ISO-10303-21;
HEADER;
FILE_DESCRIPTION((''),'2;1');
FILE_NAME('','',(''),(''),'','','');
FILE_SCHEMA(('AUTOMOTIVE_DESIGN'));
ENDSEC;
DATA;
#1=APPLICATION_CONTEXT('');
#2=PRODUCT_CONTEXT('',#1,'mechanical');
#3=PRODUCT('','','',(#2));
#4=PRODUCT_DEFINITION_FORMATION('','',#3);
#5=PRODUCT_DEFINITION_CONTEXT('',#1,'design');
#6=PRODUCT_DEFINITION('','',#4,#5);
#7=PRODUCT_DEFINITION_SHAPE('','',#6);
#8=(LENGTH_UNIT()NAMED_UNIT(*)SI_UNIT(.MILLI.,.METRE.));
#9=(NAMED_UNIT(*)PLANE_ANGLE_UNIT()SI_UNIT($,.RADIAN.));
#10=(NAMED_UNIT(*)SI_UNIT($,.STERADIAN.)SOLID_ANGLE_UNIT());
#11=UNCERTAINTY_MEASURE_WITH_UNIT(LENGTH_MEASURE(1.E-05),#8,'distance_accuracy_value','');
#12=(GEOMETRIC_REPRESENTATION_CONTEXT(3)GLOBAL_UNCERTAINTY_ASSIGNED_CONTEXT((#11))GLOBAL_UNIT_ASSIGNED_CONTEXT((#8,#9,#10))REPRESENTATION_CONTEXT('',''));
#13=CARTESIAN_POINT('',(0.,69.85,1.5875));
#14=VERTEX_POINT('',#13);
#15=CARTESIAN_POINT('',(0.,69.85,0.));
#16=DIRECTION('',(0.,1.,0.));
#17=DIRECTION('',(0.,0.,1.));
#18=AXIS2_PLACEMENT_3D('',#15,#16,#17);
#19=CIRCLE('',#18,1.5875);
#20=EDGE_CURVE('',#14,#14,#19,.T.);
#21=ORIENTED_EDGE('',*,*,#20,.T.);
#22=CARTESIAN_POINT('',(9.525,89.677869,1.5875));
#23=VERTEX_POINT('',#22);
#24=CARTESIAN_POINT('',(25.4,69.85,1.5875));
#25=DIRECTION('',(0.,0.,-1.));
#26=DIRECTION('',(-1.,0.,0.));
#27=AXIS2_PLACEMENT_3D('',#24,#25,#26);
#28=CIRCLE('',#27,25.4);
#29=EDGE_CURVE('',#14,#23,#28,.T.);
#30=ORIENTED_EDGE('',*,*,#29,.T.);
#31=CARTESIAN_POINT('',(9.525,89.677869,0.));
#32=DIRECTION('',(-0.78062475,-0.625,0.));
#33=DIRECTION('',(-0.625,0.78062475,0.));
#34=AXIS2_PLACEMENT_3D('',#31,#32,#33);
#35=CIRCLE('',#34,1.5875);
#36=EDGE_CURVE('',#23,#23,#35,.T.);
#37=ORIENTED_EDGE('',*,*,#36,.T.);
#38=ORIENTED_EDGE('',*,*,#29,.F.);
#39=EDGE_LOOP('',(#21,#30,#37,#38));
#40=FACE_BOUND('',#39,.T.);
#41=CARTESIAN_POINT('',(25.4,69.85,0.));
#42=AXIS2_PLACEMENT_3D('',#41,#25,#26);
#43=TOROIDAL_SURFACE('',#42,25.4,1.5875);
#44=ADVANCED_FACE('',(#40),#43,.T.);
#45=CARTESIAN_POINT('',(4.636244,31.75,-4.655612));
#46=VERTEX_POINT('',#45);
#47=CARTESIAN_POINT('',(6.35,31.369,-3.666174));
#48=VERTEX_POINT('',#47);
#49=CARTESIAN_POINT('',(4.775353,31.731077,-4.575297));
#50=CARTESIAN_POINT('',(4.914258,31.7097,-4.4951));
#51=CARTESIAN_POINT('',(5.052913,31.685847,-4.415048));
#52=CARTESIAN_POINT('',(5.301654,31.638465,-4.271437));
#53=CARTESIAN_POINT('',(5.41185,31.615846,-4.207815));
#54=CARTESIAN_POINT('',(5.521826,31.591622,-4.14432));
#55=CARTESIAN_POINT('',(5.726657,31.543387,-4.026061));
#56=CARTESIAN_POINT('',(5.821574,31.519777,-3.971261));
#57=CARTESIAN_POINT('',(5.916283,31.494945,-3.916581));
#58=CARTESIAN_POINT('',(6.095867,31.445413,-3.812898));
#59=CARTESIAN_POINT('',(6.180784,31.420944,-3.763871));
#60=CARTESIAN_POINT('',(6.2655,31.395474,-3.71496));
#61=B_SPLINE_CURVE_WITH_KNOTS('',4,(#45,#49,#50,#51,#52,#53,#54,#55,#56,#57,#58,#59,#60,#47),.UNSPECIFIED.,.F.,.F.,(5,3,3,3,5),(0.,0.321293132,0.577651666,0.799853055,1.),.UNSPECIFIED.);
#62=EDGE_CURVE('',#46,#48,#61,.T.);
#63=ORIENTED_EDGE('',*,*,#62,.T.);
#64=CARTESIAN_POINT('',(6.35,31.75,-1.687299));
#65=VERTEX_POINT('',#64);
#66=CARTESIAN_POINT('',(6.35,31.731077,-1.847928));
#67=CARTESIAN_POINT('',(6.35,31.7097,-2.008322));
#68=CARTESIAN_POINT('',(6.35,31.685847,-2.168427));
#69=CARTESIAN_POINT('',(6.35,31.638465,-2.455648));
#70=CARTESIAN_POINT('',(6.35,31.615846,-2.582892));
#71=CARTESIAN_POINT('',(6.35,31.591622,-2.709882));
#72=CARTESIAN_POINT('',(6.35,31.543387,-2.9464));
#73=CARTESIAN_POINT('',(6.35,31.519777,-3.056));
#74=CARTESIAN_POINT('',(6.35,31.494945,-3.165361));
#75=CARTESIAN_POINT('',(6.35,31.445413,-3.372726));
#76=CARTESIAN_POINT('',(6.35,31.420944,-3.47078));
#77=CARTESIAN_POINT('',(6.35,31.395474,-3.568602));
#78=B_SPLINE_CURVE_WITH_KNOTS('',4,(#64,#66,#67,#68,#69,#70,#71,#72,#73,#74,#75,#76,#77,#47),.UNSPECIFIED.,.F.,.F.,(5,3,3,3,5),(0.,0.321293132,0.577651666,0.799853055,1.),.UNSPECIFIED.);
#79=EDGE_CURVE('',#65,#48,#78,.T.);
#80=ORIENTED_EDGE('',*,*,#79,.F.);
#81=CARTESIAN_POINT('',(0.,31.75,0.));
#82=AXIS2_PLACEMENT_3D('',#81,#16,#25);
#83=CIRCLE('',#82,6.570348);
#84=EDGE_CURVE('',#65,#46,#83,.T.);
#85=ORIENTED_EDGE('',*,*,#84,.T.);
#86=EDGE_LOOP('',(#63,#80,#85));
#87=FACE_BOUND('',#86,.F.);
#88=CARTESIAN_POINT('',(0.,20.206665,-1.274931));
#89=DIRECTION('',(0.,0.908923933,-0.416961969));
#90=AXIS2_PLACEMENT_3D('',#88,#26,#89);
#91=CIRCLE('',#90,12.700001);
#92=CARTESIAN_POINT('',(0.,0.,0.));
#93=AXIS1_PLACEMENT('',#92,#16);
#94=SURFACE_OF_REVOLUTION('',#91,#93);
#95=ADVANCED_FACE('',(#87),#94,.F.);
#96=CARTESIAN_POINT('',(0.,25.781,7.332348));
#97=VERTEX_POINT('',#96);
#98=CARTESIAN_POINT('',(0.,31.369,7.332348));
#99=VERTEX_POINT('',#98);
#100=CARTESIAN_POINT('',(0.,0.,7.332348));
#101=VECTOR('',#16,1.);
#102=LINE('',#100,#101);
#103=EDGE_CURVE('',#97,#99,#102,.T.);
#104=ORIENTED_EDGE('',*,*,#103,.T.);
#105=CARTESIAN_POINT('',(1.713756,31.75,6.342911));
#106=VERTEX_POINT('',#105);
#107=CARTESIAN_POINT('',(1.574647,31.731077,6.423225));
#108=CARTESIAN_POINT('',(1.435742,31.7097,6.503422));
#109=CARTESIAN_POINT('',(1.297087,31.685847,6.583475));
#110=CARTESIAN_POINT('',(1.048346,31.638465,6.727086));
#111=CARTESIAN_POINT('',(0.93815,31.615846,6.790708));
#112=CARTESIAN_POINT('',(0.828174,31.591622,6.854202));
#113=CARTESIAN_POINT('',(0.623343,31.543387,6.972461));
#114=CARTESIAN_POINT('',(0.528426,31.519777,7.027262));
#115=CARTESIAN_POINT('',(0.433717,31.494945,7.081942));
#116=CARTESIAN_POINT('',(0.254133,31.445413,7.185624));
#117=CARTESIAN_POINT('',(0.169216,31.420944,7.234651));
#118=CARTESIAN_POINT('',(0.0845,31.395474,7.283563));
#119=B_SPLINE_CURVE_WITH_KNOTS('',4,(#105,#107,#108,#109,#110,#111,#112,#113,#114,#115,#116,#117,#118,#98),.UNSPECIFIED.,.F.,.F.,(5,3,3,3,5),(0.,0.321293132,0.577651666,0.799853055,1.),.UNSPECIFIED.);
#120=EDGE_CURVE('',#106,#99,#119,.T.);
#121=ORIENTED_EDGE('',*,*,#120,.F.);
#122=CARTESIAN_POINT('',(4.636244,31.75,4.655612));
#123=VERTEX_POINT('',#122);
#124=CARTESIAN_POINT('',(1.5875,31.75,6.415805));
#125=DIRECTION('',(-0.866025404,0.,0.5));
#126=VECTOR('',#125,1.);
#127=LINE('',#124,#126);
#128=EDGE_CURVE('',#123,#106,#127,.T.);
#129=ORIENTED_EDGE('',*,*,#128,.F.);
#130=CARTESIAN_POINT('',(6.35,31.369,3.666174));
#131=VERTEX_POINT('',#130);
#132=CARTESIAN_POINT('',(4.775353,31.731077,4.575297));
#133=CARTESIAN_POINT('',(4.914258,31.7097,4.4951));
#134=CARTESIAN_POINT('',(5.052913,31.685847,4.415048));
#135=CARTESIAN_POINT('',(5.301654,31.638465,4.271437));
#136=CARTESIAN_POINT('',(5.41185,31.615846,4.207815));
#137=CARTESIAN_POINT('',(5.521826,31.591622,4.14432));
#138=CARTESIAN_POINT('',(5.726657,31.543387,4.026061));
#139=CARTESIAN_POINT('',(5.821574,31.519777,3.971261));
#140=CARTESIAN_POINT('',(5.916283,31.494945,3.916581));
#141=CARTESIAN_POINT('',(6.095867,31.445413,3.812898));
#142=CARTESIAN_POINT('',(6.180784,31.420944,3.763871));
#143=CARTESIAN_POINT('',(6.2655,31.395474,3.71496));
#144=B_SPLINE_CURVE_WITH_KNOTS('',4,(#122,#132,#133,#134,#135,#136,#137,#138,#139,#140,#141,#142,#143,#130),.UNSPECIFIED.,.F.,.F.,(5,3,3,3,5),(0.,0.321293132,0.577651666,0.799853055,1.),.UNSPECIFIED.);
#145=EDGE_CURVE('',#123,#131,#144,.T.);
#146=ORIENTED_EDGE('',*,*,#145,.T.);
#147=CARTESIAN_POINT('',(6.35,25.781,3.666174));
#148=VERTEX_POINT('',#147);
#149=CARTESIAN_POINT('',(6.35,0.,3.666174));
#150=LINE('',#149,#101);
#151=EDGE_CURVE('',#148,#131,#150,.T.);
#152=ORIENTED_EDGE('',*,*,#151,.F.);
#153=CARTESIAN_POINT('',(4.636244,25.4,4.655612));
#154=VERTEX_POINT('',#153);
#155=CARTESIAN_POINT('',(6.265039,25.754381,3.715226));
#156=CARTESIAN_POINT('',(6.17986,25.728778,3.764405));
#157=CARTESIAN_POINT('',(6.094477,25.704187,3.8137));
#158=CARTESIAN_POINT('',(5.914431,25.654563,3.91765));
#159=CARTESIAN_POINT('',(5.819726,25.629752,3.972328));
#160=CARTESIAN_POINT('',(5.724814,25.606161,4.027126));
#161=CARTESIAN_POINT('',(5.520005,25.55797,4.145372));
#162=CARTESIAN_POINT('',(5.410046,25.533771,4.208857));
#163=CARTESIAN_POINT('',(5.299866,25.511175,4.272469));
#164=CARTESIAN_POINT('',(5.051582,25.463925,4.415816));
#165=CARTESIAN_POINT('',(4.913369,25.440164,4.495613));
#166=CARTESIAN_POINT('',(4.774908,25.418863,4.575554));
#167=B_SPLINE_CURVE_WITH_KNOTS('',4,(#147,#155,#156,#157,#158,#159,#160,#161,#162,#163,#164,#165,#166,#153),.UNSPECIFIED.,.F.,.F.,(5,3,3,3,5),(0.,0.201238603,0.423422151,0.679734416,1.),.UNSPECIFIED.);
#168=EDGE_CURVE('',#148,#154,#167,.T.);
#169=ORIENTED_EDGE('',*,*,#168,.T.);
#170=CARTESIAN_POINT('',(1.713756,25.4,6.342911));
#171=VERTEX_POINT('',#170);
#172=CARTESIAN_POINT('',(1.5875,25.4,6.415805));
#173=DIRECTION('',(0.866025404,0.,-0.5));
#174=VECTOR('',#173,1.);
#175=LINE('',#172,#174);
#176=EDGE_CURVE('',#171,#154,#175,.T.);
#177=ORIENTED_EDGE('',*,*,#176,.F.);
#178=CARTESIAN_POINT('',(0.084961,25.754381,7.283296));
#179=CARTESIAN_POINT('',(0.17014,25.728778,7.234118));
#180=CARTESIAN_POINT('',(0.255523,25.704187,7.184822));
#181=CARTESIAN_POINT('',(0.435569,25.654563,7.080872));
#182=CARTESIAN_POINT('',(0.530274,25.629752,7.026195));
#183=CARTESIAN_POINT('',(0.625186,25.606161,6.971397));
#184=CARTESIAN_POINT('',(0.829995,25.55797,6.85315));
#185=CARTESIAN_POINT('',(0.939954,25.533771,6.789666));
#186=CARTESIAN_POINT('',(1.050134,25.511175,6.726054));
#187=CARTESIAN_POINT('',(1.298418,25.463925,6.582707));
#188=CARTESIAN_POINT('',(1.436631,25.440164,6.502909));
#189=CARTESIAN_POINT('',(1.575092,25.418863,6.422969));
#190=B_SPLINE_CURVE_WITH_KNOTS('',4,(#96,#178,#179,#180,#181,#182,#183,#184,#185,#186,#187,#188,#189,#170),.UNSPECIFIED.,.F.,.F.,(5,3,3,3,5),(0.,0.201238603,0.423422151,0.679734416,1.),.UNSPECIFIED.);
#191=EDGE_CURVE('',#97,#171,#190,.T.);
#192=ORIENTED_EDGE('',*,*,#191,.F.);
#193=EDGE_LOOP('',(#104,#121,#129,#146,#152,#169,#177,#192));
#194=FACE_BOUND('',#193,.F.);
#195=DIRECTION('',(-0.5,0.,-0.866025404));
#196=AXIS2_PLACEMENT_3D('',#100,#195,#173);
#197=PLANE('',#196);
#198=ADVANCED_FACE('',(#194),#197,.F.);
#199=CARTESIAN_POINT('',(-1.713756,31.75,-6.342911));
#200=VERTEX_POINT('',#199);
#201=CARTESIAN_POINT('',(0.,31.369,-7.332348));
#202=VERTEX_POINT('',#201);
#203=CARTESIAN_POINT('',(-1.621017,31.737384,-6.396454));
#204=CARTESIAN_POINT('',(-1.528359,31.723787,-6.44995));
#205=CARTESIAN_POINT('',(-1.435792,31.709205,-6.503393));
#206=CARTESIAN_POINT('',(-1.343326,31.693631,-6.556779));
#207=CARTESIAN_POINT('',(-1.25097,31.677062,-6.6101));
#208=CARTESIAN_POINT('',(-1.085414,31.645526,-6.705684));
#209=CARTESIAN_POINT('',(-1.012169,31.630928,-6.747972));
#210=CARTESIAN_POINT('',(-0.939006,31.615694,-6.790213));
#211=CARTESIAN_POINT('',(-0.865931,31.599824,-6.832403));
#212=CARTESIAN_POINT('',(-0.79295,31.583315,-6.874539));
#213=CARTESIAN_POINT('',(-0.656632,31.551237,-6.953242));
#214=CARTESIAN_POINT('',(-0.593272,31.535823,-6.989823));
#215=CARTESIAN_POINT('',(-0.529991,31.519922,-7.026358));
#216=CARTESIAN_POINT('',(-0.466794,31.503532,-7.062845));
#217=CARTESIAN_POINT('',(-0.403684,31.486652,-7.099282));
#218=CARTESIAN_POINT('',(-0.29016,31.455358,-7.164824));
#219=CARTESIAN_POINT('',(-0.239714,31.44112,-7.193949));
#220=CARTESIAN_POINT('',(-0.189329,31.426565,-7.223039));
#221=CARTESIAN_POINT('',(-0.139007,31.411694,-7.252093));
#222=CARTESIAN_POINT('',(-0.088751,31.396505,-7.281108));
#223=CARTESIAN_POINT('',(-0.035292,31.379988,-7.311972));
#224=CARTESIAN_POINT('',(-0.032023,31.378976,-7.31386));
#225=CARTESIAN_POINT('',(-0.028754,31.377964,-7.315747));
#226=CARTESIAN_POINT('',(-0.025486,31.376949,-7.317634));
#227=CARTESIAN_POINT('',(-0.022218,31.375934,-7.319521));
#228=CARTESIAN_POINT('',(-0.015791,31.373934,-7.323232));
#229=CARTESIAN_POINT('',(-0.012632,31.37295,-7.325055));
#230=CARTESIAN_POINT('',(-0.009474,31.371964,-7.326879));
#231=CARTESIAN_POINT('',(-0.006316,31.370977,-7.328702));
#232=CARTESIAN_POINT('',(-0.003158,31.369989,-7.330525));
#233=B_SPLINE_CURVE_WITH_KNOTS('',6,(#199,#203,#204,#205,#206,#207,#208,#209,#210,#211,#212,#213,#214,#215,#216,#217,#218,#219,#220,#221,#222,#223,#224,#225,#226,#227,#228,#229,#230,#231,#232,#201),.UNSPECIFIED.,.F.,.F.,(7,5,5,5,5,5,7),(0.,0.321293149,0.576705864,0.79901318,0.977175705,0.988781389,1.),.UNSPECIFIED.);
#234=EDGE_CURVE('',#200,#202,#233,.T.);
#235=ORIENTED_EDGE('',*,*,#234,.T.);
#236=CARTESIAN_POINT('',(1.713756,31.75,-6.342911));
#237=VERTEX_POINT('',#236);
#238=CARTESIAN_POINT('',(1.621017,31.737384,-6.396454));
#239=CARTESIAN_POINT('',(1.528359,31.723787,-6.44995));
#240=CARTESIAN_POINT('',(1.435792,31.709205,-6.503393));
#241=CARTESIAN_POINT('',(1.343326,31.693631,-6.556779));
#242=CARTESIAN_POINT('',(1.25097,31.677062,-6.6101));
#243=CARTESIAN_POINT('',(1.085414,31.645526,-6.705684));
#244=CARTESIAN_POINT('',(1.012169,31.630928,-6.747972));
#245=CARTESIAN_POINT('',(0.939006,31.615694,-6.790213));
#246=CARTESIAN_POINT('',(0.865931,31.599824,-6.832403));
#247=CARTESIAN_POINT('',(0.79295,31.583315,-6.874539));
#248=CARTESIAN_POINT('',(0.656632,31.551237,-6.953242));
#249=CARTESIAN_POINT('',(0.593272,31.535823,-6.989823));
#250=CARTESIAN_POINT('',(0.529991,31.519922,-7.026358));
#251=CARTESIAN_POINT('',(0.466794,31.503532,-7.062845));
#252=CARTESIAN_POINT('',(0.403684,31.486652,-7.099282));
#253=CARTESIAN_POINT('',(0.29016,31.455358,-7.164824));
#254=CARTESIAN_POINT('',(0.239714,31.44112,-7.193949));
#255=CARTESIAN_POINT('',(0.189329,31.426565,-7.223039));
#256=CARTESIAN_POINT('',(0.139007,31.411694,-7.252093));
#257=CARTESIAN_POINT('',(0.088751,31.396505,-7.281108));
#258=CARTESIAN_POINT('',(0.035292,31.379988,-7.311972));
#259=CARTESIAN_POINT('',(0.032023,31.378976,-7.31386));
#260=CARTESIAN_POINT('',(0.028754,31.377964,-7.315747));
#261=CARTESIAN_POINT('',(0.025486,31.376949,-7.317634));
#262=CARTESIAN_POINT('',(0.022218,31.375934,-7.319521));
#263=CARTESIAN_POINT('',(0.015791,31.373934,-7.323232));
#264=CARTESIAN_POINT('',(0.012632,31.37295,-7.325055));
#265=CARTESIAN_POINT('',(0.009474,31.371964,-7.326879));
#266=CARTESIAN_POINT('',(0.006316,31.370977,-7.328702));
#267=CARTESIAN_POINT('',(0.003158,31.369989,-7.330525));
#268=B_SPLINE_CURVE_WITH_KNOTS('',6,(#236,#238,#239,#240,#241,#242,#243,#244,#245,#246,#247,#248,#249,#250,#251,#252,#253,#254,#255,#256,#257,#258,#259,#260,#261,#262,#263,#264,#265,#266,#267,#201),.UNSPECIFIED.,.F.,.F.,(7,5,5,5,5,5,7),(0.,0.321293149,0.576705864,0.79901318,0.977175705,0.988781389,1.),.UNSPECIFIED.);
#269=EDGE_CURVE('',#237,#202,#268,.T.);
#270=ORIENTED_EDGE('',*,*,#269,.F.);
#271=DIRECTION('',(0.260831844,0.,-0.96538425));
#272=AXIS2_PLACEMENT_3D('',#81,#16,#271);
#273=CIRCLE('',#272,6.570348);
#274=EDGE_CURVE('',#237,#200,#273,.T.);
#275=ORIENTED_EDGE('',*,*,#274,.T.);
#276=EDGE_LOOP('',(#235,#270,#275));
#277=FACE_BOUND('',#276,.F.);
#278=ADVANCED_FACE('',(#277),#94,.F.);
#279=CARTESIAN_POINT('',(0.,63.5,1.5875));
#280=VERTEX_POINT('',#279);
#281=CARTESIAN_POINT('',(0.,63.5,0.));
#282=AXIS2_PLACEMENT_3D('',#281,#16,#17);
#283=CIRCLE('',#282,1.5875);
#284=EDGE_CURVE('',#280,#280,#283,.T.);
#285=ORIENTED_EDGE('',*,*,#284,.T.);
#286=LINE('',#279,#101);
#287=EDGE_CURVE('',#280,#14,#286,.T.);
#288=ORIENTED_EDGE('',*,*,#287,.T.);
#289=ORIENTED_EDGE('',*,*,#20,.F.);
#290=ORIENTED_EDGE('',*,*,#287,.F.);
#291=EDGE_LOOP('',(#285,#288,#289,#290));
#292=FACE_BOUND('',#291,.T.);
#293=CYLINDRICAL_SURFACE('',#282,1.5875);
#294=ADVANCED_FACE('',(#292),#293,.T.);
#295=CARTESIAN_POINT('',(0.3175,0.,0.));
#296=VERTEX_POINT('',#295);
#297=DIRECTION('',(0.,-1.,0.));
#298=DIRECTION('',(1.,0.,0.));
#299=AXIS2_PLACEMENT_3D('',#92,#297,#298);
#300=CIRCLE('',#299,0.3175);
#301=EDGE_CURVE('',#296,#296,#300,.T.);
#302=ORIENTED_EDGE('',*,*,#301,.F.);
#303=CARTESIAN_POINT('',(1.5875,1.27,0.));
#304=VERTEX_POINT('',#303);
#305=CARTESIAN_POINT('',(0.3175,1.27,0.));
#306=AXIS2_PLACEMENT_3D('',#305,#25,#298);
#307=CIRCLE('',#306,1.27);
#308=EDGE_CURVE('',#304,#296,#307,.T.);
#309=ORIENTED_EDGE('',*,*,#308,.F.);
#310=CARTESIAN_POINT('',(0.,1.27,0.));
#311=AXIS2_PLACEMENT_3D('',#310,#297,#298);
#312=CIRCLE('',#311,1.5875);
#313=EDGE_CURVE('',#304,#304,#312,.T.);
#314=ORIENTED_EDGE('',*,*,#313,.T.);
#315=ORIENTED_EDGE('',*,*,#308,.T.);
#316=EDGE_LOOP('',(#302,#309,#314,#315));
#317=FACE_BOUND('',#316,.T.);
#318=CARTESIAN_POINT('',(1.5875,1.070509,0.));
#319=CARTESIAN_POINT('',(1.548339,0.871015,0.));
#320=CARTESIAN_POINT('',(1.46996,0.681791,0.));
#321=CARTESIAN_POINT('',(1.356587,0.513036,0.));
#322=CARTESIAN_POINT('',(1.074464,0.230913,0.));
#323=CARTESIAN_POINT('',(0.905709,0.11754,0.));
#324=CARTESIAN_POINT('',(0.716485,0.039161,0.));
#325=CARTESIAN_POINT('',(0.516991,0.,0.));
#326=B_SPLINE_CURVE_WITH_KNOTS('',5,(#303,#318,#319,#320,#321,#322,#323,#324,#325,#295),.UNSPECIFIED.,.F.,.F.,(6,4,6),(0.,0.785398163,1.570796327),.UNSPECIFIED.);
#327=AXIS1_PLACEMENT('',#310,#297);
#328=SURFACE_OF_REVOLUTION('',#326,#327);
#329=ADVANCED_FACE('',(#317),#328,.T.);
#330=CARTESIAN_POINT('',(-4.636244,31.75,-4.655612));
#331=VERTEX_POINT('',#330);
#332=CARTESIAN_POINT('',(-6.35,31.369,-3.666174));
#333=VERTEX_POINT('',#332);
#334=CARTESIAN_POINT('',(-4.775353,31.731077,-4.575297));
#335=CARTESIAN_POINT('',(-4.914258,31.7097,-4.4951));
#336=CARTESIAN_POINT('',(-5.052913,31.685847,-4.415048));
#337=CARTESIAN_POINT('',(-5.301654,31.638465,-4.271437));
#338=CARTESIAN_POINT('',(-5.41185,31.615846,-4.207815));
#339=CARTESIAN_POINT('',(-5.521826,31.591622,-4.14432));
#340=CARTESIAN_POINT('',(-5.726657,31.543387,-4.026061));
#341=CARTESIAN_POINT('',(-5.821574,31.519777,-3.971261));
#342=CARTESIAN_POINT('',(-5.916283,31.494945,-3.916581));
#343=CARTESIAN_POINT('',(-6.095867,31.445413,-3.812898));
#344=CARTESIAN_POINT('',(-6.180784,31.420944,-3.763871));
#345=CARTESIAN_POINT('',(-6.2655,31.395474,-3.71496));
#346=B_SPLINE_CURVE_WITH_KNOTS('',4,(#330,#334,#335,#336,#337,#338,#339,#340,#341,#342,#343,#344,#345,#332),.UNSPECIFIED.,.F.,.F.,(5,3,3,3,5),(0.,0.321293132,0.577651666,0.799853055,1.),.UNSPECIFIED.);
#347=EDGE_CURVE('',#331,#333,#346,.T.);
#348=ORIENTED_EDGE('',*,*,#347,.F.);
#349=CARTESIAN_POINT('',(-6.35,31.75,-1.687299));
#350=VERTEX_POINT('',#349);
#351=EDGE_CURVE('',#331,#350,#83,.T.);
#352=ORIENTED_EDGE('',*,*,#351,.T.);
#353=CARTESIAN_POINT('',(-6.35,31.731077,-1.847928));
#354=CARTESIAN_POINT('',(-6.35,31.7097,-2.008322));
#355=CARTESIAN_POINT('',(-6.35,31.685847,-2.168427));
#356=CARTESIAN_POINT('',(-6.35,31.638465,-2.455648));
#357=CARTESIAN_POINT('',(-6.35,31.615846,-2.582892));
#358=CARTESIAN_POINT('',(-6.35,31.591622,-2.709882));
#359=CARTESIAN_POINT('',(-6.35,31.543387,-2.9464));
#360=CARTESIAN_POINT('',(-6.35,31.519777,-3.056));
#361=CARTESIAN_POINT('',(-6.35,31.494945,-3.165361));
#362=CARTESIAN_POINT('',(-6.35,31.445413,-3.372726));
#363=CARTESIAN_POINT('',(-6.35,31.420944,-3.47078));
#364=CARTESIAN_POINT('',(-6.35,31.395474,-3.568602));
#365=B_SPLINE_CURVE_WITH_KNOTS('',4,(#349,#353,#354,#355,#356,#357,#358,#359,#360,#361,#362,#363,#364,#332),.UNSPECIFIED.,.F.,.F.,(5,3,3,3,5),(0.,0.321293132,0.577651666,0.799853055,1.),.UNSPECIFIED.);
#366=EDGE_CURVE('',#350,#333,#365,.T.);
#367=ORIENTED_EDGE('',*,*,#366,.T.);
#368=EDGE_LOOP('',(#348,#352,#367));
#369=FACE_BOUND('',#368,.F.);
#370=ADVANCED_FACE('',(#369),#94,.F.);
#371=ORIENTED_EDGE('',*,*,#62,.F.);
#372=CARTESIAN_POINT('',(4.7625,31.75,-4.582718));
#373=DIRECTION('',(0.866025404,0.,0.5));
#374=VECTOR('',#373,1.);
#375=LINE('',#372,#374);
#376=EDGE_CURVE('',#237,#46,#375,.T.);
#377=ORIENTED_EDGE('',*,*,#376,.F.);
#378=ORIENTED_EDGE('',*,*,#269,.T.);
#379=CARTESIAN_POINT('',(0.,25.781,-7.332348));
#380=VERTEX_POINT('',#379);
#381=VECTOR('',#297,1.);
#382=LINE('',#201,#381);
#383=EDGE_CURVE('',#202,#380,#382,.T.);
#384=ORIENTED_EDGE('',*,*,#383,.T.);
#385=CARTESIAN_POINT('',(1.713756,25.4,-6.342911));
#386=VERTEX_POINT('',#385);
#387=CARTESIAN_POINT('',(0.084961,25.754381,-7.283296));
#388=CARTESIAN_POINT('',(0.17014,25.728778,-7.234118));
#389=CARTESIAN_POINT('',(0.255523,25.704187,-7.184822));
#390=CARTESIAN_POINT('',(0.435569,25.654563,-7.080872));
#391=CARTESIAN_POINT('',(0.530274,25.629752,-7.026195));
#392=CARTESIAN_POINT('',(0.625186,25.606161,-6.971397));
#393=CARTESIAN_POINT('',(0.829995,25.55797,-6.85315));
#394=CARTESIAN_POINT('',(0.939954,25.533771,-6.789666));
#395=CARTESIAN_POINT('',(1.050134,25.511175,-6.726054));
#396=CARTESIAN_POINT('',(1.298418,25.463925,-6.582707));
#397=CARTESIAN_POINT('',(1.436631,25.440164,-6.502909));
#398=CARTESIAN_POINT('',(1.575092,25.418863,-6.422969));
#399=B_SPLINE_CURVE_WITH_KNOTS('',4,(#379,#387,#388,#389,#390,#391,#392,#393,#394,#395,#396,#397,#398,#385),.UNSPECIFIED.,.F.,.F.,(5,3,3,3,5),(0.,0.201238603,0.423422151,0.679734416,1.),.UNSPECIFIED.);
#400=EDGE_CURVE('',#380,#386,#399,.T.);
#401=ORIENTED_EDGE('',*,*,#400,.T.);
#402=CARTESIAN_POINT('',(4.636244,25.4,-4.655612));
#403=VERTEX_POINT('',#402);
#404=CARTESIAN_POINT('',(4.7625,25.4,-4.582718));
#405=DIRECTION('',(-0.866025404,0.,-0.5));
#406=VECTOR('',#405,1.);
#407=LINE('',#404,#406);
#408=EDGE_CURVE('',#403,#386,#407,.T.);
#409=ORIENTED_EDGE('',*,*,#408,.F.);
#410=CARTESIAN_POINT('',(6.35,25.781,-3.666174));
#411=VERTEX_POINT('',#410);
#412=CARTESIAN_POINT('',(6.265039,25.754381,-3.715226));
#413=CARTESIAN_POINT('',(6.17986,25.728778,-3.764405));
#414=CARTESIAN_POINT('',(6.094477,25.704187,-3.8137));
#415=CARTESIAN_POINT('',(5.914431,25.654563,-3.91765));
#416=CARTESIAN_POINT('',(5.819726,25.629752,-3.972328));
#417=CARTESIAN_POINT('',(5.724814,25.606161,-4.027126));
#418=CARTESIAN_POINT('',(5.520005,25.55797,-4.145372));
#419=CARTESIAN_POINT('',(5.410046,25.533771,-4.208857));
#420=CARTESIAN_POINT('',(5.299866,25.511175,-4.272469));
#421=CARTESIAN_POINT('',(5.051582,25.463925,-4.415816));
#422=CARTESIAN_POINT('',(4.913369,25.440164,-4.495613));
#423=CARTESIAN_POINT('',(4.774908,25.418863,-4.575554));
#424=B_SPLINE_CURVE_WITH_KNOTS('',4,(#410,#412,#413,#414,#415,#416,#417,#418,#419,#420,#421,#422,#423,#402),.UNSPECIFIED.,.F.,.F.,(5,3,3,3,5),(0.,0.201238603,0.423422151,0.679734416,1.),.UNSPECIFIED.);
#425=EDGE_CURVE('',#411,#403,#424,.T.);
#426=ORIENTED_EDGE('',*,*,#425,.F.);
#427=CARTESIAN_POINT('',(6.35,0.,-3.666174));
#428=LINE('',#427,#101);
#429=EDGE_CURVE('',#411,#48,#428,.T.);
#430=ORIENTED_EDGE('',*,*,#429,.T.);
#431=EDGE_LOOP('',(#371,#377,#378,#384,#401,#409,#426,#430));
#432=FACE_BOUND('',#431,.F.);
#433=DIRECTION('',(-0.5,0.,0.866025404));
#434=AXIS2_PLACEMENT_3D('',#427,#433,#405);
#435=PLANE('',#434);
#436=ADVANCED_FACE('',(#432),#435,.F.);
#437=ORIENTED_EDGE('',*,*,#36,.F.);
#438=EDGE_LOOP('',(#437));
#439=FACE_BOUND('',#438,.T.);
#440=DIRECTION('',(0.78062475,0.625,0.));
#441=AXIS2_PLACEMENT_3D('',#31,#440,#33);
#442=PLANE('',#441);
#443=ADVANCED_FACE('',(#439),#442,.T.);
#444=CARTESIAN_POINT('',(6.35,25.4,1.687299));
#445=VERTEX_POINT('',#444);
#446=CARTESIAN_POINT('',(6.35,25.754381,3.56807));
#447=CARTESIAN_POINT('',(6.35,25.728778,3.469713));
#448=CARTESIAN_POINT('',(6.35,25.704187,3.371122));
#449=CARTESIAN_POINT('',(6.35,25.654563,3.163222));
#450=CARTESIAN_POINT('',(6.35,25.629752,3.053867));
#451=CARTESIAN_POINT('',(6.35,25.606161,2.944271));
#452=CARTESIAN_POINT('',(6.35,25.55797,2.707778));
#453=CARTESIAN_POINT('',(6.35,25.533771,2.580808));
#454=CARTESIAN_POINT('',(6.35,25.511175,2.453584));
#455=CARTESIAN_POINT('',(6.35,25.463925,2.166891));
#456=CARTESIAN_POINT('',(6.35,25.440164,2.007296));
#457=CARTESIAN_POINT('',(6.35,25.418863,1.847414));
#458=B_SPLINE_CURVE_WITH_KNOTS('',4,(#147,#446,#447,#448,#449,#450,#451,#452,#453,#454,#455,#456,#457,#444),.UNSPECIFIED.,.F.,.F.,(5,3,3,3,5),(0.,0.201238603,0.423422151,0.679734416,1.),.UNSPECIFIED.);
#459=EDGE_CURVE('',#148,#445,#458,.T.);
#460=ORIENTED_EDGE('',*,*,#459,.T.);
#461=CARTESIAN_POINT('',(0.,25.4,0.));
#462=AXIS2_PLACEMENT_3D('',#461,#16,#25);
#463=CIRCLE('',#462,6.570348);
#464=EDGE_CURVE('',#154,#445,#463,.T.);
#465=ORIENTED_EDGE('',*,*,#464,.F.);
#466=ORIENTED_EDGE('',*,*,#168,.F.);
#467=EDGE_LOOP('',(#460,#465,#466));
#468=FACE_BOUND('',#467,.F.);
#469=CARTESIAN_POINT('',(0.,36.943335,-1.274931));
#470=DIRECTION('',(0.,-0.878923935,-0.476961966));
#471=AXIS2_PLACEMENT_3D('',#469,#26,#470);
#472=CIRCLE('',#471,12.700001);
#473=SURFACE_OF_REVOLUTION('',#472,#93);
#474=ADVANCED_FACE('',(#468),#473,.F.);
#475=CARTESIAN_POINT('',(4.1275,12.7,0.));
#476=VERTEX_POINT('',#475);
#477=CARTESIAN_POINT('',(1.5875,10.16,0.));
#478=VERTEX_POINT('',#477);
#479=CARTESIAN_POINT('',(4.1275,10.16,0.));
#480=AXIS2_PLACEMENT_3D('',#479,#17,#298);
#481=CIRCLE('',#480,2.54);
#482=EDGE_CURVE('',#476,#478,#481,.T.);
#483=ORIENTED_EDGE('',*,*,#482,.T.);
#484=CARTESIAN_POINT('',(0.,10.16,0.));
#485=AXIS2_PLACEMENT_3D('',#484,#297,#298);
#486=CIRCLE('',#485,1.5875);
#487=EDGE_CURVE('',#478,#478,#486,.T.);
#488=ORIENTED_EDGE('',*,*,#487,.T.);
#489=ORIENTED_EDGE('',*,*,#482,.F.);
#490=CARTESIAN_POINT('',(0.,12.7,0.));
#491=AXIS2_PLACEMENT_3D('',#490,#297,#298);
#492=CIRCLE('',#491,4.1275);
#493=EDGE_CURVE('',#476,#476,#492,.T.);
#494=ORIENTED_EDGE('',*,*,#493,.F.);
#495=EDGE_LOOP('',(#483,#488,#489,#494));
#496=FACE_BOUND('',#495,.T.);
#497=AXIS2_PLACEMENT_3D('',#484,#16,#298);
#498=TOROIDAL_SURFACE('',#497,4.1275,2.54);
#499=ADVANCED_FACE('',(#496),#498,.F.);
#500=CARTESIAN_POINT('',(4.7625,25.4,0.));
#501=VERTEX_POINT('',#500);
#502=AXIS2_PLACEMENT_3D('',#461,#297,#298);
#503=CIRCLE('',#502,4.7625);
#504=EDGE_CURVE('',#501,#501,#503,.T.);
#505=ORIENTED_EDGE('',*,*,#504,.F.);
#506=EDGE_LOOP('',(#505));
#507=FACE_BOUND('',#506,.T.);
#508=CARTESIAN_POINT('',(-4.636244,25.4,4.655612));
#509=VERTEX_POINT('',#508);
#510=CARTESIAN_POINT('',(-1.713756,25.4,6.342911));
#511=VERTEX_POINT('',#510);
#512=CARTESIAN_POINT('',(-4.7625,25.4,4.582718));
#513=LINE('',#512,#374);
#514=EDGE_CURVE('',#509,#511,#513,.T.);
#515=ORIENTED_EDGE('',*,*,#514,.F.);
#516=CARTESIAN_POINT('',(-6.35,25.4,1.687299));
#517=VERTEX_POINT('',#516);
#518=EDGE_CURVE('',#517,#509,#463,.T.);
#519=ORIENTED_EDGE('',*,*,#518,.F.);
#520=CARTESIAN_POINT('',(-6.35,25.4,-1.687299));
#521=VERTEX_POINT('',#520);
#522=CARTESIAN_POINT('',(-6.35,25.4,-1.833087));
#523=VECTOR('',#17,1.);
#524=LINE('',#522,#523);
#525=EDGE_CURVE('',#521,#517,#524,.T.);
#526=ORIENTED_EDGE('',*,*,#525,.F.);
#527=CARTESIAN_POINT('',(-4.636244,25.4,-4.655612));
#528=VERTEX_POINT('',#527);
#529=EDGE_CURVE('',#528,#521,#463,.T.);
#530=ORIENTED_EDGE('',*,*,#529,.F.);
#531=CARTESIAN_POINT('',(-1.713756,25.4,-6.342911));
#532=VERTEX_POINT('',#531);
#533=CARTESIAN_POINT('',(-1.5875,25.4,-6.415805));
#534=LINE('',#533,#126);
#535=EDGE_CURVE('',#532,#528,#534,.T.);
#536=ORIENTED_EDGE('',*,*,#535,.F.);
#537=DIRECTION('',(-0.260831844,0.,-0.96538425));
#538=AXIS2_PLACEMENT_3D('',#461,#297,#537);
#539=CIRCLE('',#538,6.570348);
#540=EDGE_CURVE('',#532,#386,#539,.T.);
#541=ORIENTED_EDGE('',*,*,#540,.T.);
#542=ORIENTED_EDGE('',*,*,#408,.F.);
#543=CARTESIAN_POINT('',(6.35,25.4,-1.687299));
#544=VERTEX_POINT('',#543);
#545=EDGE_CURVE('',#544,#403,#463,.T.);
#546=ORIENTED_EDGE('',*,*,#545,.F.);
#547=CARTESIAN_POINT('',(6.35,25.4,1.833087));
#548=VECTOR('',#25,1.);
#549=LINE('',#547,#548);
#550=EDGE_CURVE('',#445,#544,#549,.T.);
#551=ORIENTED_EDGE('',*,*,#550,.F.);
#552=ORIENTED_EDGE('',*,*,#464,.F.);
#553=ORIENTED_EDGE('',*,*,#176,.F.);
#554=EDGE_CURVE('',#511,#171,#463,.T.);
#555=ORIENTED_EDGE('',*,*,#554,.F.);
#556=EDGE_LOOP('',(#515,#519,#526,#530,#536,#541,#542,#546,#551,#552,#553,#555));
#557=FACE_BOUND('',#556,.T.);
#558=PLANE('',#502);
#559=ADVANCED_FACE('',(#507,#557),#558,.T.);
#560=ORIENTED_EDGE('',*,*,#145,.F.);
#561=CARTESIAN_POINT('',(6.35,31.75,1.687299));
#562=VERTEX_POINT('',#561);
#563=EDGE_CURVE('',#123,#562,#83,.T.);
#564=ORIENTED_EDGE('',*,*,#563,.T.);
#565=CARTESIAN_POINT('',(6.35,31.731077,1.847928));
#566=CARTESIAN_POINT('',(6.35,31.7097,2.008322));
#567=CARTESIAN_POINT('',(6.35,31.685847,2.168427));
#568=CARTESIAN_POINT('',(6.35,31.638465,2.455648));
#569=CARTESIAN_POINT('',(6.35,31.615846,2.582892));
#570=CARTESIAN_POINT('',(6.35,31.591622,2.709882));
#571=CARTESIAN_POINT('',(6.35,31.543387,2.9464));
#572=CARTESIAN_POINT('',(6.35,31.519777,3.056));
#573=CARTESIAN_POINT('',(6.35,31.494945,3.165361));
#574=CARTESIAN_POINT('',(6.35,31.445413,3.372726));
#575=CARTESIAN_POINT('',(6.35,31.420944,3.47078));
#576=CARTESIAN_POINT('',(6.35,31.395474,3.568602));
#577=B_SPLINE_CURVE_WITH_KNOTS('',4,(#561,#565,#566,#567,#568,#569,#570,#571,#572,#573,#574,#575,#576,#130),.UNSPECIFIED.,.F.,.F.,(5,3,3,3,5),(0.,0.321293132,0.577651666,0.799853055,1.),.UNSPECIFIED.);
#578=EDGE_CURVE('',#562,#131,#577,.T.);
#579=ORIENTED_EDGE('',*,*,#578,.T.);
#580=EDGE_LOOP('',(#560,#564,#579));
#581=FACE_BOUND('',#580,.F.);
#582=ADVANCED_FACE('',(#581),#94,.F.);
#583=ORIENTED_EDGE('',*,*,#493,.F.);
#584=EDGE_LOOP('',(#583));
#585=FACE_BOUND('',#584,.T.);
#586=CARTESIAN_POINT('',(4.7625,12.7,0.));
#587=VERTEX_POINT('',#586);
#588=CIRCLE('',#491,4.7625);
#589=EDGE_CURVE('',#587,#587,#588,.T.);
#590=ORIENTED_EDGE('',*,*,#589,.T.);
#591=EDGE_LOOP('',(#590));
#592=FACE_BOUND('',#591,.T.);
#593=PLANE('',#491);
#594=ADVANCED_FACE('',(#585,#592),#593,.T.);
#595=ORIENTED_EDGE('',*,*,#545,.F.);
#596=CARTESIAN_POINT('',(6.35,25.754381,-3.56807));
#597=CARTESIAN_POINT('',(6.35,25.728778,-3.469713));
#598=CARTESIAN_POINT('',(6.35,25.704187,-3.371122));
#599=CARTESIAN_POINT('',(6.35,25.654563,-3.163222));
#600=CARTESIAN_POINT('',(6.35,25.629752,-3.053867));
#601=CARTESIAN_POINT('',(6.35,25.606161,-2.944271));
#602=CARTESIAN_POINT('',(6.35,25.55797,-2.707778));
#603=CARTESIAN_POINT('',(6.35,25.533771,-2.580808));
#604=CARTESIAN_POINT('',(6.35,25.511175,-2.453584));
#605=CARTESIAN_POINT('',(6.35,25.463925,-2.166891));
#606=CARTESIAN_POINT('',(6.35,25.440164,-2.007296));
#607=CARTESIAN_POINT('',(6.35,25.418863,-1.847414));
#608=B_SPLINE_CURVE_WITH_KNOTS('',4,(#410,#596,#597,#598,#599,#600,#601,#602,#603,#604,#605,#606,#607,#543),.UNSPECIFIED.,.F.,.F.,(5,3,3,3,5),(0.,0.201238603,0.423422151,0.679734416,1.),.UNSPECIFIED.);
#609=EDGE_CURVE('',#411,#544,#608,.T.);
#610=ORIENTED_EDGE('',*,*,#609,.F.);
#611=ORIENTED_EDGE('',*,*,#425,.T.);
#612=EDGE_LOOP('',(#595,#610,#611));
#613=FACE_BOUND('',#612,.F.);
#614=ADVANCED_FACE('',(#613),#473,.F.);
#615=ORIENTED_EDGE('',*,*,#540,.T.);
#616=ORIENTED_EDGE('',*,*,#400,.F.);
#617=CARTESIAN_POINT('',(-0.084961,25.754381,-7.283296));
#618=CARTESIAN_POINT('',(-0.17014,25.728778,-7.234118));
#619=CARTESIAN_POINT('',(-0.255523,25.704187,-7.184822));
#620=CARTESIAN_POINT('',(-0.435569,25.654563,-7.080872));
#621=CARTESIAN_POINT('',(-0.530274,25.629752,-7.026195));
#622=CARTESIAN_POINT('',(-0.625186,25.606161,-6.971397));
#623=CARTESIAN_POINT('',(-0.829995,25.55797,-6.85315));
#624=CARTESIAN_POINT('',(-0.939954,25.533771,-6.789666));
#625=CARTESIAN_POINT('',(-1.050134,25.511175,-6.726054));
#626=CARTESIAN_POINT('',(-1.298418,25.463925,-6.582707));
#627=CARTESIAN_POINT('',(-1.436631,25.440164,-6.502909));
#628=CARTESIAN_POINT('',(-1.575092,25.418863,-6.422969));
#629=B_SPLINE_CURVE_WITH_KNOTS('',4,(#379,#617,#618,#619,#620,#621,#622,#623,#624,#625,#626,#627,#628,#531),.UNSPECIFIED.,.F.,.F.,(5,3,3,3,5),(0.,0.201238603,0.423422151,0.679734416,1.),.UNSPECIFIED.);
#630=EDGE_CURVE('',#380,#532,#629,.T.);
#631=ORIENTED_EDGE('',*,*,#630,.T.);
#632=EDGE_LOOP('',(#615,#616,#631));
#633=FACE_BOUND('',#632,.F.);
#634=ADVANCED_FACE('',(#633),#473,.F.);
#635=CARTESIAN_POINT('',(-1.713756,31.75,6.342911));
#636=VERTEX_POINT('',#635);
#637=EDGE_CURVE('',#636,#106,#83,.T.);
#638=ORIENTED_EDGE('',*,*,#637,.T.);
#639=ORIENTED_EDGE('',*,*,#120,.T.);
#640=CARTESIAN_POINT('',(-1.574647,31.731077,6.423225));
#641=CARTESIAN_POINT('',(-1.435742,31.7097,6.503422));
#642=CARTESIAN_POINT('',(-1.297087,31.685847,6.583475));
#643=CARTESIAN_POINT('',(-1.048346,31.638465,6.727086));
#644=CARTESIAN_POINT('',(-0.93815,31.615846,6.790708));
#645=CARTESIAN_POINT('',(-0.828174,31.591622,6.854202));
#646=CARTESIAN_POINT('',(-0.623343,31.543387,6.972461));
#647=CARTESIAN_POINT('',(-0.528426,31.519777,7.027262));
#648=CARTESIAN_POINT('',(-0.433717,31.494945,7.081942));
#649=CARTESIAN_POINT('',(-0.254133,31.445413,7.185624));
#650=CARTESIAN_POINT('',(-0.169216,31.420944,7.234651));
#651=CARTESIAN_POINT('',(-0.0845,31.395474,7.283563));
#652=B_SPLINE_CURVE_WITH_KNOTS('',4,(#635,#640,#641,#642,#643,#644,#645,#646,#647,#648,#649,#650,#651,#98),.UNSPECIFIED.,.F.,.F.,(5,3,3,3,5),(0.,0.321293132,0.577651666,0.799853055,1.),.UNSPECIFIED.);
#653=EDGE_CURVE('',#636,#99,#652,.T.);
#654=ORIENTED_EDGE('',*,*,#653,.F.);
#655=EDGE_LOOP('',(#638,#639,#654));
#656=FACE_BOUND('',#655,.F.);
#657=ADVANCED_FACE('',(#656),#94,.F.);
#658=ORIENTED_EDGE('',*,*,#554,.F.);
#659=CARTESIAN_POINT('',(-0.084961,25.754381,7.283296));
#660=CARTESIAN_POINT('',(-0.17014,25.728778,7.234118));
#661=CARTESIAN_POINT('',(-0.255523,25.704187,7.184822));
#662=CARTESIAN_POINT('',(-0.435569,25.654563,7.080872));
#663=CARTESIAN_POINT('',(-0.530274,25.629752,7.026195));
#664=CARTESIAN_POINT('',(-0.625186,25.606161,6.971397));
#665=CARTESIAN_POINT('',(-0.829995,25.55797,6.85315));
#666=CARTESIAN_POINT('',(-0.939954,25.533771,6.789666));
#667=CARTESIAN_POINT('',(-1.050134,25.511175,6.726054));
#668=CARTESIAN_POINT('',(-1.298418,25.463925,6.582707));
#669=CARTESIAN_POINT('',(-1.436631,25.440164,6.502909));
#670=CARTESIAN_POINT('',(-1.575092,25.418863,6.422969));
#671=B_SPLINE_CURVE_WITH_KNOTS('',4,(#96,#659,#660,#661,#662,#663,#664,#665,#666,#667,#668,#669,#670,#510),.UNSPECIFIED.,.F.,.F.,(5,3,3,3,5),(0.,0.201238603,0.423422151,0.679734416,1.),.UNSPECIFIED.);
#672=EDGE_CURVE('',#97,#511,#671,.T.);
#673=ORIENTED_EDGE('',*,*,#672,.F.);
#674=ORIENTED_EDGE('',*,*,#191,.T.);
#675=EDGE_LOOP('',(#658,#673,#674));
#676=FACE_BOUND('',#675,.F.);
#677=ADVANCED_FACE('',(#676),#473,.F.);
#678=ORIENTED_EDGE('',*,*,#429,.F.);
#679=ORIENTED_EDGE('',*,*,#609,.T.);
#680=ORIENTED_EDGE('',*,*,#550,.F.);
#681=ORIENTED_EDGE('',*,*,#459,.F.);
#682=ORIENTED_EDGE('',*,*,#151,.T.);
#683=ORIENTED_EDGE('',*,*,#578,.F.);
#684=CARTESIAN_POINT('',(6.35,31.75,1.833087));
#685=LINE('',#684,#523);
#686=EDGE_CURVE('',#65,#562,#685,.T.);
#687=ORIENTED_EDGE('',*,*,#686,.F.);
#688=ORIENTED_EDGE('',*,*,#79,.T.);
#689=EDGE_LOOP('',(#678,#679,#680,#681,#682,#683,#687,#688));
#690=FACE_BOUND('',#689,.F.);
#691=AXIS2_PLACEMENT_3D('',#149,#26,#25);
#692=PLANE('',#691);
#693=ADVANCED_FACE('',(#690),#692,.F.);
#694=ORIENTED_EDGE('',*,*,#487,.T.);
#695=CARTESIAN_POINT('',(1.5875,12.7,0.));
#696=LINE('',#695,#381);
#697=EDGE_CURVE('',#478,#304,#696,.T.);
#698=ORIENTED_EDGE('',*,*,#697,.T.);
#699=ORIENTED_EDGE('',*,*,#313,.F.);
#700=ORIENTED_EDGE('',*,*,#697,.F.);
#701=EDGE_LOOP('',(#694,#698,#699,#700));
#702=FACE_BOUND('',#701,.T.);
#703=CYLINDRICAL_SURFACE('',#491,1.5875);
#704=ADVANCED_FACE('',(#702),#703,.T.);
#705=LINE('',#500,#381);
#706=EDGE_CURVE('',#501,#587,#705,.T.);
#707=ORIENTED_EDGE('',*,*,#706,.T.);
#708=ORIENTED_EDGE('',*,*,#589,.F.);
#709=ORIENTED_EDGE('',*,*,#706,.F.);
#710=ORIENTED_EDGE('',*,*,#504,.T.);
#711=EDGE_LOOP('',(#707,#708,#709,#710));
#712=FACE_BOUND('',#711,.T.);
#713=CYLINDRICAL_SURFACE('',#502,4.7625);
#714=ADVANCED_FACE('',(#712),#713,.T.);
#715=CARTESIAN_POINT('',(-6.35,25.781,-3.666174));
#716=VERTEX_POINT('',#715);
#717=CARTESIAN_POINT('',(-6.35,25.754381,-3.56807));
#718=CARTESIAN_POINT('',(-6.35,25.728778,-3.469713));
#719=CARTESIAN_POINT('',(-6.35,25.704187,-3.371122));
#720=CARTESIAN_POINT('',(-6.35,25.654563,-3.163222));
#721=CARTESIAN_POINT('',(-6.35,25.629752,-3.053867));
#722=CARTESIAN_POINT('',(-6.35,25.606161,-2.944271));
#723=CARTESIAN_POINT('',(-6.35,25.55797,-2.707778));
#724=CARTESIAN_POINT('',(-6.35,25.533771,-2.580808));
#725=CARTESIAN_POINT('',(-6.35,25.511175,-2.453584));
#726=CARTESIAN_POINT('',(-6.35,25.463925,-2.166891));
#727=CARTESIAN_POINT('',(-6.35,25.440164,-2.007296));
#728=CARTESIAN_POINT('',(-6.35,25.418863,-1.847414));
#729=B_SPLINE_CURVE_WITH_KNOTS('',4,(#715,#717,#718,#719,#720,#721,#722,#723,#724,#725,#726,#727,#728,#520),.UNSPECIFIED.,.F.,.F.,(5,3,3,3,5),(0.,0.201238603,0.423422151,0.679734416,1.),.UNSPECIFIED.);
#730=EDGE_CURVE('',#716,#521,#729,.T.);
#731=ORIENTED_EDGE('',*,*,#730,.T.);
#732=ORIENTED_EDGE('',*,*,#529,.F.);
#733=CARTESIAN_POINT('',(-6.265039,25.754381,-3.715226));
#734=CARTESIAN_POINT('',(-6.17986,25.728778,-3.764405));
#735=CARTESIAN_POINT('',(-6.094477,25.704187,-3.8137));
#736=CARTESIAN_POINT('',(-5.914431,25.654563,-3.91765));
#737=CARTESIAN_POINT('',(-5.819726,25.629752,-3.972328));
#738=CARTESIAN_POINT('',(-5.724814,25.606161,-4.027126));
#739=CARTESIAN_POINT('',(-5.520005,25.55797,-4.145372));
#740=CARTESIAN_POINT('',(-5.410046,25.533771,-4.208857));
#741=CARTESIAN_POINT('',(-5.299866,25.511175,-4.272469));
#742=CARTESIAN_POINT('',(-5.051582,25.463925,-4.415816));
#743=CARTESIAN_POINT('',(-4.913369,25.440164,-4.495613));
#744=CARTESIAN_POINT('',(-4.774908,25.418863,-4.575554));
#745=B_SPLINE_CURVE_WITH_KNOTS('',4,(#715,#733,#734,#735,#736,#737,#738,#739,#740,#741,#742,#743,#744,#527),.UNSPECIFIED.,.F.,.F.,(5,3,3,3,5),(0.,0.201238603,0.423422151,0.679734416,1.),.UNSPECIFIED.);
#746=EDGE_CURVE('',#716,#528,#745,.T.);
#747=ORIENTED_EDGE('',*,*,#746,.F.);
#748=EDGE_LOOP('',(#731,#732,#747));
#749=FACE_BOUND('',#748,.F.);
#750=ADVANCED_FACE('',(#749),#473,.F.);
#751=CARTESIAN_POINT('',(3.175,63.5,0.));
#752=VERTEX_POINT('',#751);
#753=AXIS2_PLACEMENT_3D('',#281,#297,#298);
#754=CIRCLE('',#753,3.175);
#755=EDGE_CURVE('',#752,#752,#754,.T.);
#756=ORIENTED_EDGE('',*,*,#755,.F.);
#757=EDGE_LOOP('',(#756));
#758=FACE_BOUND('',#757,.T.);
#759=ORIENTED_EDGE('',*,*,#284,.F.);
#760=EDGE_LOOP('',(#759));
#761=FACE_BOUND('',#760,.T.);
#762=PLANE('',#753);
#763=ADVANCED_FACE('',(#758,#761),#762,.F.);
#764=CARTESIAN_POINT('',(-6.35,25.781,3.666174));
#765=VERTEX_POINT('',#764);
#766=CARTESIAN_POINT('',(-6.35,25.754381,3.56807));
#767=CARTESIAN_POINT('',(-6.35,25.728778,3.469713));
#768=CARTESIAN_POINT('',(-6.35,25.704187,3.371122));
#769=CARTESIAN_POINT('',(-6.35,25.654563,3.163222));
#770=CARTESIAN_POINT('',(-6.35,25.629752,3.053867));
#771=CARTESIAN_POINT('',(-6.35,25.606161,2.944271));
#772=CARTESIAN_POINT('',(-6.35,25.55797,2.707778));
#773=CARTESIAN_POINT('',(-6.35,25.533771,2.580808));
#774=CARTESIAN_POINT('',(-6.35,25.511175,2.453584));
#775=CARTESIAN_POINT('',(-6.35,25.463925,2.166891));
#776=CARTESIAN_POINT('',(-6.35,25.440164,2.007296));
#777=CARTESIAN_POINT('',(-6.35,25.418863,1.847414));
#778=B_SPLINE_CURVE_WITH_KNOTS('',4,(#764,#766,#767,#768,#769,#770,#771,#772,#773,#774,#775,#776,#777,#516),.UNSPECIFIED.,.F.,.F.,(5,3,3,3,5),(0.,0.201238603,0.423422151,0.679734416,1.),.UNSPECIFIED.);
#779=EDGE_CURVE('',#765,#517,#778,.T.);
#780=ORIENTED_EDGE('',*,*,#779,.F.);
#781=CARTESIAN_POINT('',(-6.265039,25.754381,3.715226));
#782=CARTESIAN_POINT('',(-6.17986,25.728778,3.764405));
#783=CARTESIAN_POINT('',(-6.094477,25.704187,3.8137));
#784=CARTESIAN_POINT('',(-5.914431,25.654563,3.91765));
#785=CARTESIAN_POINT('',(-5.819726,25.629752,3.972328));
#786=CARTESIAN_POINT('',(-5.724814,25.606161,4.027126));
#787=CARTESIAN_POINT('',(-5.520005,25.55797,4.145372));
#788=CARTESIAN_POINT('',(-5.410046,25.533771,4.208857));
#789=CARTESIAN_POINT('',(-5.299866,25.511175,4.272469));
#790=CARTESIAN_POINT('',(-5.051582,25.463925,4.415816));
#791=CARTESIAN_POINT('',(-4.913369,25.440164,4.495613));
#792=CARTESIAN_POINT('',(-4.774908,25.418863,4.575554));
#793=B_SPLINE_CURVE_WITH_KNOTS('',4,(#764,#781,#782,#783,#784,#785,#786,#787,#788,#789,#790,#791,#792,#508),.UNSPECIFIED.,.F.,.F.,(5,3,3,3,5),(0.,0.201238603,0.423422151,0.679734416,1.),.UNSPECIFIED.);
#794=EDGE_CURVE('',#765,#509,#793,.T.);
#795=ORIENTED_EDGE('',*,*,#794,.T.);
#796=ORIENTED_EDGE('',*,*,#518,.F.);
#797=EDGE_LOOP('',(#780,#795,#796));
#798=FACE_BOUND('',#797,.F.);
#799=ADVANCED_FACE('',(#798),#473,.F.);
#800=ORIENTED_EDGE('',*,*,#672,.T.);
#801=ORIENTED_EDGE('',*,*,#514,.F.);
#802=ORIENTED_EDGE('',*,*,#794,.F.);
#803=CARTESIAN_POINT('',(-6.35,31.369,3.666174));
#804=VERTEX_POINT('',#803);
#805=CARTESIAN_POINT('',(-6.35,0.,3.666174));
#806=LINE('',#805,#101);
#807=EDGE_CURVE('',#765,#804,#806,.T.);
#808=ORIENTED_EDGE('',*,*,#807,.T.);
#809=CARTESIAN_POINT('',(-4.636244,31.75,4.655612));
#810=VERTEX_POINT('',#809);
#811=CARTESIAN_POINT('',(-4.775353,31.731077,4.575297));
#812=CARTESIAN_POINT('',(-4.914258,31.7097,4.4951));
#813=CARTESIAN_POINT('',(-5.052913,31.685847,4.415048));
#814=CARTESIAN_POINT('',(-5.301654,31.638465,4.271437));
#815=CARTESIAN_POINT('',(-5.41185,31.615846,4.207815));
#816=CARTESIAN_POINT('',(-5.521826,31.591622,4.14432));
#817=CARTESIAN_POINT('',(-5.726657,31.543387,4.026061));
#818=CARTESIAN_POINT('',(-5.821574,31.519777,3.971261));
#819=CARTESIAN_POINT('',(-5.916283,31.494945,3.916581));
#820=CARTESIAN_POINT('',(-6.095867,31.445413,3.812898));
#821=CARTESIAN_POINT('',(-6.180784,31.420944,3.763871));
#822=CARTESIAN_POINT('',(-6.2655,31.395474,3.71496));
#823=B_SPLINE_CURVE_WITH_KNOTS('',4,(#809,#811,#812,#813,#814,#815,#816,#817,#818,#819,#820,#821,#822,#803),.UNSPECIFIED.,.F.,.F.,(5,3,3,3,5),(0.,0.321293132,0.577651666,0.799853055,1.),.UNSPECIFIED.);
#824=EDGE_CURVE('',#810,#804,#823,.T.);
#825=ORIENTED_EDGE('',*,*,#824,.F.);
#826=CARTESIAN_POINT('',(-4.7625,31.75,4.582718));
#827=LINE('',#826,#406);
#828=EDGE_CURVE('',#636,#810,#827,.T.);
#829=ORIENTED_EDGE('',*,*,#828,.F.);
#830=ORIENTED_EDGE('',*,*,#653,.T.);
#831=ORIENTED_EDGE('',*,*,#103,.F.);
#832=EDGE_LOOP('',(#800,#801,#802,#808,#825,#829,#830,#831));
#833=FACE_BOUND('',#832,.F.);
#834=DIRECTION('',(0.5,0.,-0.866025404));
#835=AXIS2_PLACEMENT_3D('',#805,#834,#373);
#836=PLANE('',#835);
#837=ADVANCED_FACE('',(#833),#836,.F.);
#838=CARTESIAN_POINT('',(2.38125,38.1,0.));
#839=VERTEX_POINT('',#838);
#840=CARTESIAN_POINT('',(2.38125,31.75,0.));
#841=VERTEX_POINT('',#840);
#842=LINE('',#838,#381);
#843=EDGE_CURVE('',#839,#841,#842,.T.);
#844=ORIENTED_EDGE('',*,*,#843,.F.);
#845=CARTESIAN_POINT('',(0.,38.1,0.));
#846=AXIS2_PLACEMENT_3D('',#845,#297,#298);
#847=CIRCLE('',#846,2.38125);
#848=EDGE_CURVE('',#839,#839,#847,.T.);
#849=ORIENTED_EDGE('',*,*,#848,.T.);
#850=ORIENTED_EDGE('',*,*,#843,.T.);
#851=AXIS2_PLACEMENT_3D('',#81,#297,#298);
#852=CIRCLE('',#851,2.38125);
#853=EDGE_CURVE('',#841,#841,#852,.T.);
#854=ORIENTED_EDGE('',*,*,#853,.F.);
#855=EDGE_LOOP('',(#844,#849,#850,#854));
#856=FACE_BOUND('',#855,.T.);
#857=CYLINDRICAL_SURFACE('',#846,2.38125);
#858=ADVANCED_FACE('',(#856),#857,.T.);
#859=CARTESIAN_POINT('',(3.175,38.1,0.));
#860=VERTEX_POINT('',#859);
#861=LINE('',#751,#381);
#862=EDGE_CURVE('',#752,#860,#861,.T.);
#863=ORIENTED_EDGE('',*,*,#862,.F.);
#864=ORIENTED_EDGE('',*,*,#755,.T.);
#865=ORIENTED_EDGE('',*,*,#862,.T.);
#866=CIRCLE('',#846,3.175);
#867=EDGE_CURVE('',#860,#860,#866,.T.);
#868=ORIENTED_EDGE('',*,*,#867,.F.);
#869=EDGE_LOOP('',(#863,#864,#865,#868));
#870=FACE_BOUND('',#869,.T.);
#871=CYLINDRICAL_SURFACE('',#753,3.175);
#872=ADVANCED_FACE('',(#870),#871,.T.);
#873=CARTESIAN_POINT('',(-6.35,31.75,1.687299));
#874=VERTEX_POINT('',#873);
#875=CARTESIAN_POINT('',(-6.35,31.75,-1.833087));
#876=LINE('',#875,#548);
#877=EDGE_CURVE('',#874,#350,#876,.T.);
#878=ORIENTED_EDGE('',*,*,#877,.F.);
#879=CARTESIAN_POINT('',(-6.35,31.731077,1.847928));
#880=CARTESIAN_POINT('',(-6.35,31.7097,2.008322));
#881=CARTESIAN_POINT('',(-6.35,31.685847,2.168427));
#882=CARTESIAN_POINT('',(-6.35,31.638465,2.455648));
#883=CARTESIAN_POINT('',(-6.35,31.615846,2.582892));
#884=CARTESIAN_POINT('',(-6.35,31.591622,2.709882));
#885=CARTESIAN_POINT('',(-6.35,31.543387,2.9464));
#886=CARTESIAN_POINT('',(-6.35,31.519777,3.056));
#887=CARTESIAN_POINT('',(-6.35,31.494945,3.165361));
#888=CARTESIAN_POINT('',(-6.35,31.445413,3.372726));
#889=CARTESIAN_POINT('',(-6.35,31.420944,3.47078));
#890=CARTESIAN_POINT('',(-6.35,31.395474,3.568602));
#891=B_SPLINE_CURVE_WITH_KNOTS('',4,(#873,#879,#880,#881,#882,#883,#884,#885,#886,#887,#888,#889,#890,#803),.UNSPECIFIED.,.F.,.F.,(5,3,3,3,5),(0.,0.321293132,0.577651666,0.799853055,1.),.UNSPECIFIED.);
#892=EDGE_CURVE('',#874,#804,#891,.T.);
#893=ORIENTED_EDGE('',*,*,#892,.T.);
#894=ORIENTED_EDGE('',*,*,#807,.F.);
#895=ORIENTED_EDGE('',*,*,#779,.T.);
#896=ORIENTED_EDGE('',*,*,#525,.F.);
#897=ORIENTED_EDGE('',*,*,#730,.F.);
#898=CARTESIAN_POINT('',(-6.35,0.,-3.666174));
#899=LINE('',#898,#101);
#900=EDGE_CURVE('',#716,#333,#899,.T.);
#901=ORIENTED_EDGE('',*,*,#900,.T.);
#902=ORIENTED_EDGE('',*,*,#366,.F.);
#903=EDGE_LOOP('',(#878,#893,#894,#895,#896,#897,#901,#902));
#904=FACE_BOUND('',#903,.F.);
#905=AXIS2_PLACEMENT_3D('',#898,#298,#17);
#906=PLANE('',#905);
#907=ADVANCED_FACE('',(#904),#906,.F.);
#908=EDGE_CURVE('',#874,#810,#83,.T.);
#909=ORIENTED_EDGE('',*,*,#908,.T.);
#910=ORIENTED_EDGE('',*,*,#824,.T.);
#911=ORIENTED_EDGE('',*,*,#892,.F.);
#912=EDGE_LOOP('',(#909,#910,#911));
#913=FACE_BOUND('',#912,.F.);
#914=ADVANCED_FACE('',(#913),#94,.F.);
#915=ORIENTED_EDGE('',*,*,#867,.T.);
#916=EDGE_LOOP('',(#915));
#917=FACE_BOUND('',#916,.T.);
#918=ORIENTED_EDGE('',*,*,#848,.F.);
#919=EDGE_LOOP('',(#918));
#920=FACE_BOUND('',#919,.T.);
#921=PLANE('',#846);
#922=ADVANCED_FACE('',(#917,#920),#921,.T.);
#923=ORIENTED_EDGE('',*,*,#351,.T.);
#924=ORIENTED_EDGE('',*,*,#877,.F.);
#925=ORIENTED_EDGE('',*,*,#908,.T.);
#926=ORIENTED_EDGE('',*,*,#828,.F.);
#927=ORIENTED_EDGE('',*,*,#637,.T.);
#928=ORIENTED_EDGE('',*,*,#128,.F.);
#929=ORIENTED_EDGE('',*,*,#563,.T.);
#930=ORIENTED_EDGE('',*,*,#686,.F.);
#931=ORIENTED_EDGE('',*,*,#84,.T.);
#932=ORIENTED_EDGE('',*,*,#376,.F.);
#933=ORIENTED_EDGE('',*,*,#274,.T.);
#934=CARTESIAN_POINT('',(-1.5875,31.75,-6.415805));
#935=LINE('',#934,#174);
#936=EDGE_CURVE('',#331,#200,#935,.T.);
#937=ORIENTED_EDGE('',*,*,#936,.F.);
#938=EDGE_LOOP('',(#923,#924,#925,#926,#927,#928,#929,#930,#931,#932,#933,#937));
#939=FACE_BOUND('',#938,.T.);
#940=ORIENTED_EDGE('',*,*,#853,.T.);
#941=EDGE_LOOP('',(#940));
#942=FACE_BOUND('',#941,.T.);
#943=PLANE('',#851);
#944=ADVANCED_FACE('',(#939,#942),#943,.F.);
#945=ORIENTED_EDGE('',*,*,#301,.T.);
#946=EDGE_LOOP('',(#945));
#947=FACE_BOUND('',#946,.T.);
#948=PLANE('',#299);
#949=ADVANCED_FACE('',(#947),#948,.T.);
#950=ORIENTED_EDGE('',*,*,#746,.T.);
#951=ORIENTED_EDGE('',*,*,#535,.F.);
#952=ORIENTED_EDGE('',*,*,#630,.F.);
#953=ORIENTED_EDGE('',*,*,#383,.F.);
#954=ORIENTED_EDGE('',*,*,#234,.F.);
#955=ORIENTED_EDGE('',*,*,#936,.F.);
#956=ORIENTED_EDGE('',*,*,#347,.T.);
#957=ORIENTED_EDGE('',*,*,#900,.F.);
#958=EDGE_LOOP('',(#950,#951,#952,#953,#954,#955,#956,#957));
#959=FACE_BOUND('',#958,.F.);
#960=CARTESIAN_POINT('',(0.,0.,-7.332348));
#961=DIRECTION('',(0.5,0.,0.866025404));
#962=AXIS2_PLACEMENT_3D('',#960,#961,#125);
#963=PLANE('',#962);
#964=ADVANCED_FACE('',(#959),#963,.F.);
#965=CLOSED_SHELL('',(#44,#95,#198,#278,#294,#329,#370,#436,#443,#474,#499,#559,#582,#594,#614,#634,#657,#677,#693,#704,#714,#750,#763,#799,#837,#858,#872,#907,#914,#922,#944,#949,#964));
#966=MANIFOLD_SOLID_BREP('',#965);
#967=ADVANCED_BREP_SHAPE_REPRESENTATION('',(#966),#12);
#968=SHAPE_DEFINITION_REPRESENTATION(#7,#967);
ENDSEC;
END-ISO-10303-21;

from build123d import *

# Parameters (mm, degrees)
SKETCH2_OUTSIDE_W  = 41.992
SKETCH2_OUTSIDE_H  = 41.992
CUT_EXTRUDE1_DEPTH = 64.5
FILLET1_R          = 2.54
FILLET2_R          = 1.27
SWEEP1_PROFILE_R   = 1.5875


with BuildPart() as part:
    # Sketch1 → Revolve1 (revolve)
    with BuildSketch(Plane.XY):
        Polygon((0, 0), (0, 63.5), (3.175, 63.5), (3.175, 38.1), (2.38125, 38.1), (2.38125, 31.75), (12.7, 31.75), (12.7, 25.4), (4.7625, 25.4), (4.7625, 12.7), (1.5875, 12.7), (1.5875, 0), align=None)
    revolve(axis=Axis((0, 0, 0), (0, -1, 0)))

    # Sketch2 outside → Cut-Extrude1 (cut, through all)
    with BuildSketch(Plane(origin=(0, 0, 0), x_dir=(1, 0, 0), z_dir=(0, 1, 0))):
        Rectangle(SKETCH2_OUTSIDE_W, SKETCH2_OUTSIDE_H)
        Polygon((6.35, 3.666174209), (0, 7.332348419), (-6.35, 3.666174209), (-6.35, -3.666174209), (0, -7.332348419), (6.35, -3.666174209), align=None, mode=Mode.SUBTRACT)
    extrude(amount=CUT_EXTRUDE1_DEPTH, mode=Mode.SUBTRACT)

    # Sketch3 → Cut-Revolve1 (revolve, cut)
    with BuildSketch(Plane(origin=(0, 0, 0), x_dir=(0, 0, -1), z_dir=(1, 0, 0))):
        with BuildLine():
            Line((7.332348419, 31.369), (7.332348419, 25.781))
            ThreePointArc((7.332348419, 25.781), (6.9545441, 25.584108638), (6.570348419, 25.4))
            ThreePointArc((6.570348419, 25.4), (12.560590782, 25.250588883), (17.545931088, 28.575))
            ThreePointArc((17.545931088, 28.575), (12.560590782, 31.899411117), (6.570348419, 31.75))
            ThreePointArc((6.570348419, 31.75), (6.9545441, 31.565891362), (7.332348419, 31.369))
        make_face()
    revolve(axis=Axis((0, 0, 0), (0, 1, 0)), mode=Mode.SUBTRACT)

    # Fillet1
    fillet1_edges = [part.edges().sort_by_distance(p)[0] for p in [
        (-1.5875, 12.7, 0),
    ]]
    fillet(fillet1_edges, radius=FILLET1_R)

    # Fillet2
    fillet2_edges = [part.edges().sort_by_distance(p)[0] for p in [
        (-1.5875, 0, 0),
    ]]
    fillet(fillet2_edges, radius=FILLET2_R)

    # Sweep1: sweep along a path in Sketch4
    with BuildLine(Plane.XY) as sweep1_path:
        Line((0, 63.5), (0, 69.85))
        ThreePointArc((0, 69.85), (2.504749401, 80.848522628), (9.525, 89.677868645))
    # Sweep1 profile (on start of the path) → Sweep1 (sweep)
    with BuildSketch(Plane.ZX.offset(63.5)):
        Circle(SWEEP1_PROFILE_R)
    sweep(path=sweep1_path.line)


solid = part.part
